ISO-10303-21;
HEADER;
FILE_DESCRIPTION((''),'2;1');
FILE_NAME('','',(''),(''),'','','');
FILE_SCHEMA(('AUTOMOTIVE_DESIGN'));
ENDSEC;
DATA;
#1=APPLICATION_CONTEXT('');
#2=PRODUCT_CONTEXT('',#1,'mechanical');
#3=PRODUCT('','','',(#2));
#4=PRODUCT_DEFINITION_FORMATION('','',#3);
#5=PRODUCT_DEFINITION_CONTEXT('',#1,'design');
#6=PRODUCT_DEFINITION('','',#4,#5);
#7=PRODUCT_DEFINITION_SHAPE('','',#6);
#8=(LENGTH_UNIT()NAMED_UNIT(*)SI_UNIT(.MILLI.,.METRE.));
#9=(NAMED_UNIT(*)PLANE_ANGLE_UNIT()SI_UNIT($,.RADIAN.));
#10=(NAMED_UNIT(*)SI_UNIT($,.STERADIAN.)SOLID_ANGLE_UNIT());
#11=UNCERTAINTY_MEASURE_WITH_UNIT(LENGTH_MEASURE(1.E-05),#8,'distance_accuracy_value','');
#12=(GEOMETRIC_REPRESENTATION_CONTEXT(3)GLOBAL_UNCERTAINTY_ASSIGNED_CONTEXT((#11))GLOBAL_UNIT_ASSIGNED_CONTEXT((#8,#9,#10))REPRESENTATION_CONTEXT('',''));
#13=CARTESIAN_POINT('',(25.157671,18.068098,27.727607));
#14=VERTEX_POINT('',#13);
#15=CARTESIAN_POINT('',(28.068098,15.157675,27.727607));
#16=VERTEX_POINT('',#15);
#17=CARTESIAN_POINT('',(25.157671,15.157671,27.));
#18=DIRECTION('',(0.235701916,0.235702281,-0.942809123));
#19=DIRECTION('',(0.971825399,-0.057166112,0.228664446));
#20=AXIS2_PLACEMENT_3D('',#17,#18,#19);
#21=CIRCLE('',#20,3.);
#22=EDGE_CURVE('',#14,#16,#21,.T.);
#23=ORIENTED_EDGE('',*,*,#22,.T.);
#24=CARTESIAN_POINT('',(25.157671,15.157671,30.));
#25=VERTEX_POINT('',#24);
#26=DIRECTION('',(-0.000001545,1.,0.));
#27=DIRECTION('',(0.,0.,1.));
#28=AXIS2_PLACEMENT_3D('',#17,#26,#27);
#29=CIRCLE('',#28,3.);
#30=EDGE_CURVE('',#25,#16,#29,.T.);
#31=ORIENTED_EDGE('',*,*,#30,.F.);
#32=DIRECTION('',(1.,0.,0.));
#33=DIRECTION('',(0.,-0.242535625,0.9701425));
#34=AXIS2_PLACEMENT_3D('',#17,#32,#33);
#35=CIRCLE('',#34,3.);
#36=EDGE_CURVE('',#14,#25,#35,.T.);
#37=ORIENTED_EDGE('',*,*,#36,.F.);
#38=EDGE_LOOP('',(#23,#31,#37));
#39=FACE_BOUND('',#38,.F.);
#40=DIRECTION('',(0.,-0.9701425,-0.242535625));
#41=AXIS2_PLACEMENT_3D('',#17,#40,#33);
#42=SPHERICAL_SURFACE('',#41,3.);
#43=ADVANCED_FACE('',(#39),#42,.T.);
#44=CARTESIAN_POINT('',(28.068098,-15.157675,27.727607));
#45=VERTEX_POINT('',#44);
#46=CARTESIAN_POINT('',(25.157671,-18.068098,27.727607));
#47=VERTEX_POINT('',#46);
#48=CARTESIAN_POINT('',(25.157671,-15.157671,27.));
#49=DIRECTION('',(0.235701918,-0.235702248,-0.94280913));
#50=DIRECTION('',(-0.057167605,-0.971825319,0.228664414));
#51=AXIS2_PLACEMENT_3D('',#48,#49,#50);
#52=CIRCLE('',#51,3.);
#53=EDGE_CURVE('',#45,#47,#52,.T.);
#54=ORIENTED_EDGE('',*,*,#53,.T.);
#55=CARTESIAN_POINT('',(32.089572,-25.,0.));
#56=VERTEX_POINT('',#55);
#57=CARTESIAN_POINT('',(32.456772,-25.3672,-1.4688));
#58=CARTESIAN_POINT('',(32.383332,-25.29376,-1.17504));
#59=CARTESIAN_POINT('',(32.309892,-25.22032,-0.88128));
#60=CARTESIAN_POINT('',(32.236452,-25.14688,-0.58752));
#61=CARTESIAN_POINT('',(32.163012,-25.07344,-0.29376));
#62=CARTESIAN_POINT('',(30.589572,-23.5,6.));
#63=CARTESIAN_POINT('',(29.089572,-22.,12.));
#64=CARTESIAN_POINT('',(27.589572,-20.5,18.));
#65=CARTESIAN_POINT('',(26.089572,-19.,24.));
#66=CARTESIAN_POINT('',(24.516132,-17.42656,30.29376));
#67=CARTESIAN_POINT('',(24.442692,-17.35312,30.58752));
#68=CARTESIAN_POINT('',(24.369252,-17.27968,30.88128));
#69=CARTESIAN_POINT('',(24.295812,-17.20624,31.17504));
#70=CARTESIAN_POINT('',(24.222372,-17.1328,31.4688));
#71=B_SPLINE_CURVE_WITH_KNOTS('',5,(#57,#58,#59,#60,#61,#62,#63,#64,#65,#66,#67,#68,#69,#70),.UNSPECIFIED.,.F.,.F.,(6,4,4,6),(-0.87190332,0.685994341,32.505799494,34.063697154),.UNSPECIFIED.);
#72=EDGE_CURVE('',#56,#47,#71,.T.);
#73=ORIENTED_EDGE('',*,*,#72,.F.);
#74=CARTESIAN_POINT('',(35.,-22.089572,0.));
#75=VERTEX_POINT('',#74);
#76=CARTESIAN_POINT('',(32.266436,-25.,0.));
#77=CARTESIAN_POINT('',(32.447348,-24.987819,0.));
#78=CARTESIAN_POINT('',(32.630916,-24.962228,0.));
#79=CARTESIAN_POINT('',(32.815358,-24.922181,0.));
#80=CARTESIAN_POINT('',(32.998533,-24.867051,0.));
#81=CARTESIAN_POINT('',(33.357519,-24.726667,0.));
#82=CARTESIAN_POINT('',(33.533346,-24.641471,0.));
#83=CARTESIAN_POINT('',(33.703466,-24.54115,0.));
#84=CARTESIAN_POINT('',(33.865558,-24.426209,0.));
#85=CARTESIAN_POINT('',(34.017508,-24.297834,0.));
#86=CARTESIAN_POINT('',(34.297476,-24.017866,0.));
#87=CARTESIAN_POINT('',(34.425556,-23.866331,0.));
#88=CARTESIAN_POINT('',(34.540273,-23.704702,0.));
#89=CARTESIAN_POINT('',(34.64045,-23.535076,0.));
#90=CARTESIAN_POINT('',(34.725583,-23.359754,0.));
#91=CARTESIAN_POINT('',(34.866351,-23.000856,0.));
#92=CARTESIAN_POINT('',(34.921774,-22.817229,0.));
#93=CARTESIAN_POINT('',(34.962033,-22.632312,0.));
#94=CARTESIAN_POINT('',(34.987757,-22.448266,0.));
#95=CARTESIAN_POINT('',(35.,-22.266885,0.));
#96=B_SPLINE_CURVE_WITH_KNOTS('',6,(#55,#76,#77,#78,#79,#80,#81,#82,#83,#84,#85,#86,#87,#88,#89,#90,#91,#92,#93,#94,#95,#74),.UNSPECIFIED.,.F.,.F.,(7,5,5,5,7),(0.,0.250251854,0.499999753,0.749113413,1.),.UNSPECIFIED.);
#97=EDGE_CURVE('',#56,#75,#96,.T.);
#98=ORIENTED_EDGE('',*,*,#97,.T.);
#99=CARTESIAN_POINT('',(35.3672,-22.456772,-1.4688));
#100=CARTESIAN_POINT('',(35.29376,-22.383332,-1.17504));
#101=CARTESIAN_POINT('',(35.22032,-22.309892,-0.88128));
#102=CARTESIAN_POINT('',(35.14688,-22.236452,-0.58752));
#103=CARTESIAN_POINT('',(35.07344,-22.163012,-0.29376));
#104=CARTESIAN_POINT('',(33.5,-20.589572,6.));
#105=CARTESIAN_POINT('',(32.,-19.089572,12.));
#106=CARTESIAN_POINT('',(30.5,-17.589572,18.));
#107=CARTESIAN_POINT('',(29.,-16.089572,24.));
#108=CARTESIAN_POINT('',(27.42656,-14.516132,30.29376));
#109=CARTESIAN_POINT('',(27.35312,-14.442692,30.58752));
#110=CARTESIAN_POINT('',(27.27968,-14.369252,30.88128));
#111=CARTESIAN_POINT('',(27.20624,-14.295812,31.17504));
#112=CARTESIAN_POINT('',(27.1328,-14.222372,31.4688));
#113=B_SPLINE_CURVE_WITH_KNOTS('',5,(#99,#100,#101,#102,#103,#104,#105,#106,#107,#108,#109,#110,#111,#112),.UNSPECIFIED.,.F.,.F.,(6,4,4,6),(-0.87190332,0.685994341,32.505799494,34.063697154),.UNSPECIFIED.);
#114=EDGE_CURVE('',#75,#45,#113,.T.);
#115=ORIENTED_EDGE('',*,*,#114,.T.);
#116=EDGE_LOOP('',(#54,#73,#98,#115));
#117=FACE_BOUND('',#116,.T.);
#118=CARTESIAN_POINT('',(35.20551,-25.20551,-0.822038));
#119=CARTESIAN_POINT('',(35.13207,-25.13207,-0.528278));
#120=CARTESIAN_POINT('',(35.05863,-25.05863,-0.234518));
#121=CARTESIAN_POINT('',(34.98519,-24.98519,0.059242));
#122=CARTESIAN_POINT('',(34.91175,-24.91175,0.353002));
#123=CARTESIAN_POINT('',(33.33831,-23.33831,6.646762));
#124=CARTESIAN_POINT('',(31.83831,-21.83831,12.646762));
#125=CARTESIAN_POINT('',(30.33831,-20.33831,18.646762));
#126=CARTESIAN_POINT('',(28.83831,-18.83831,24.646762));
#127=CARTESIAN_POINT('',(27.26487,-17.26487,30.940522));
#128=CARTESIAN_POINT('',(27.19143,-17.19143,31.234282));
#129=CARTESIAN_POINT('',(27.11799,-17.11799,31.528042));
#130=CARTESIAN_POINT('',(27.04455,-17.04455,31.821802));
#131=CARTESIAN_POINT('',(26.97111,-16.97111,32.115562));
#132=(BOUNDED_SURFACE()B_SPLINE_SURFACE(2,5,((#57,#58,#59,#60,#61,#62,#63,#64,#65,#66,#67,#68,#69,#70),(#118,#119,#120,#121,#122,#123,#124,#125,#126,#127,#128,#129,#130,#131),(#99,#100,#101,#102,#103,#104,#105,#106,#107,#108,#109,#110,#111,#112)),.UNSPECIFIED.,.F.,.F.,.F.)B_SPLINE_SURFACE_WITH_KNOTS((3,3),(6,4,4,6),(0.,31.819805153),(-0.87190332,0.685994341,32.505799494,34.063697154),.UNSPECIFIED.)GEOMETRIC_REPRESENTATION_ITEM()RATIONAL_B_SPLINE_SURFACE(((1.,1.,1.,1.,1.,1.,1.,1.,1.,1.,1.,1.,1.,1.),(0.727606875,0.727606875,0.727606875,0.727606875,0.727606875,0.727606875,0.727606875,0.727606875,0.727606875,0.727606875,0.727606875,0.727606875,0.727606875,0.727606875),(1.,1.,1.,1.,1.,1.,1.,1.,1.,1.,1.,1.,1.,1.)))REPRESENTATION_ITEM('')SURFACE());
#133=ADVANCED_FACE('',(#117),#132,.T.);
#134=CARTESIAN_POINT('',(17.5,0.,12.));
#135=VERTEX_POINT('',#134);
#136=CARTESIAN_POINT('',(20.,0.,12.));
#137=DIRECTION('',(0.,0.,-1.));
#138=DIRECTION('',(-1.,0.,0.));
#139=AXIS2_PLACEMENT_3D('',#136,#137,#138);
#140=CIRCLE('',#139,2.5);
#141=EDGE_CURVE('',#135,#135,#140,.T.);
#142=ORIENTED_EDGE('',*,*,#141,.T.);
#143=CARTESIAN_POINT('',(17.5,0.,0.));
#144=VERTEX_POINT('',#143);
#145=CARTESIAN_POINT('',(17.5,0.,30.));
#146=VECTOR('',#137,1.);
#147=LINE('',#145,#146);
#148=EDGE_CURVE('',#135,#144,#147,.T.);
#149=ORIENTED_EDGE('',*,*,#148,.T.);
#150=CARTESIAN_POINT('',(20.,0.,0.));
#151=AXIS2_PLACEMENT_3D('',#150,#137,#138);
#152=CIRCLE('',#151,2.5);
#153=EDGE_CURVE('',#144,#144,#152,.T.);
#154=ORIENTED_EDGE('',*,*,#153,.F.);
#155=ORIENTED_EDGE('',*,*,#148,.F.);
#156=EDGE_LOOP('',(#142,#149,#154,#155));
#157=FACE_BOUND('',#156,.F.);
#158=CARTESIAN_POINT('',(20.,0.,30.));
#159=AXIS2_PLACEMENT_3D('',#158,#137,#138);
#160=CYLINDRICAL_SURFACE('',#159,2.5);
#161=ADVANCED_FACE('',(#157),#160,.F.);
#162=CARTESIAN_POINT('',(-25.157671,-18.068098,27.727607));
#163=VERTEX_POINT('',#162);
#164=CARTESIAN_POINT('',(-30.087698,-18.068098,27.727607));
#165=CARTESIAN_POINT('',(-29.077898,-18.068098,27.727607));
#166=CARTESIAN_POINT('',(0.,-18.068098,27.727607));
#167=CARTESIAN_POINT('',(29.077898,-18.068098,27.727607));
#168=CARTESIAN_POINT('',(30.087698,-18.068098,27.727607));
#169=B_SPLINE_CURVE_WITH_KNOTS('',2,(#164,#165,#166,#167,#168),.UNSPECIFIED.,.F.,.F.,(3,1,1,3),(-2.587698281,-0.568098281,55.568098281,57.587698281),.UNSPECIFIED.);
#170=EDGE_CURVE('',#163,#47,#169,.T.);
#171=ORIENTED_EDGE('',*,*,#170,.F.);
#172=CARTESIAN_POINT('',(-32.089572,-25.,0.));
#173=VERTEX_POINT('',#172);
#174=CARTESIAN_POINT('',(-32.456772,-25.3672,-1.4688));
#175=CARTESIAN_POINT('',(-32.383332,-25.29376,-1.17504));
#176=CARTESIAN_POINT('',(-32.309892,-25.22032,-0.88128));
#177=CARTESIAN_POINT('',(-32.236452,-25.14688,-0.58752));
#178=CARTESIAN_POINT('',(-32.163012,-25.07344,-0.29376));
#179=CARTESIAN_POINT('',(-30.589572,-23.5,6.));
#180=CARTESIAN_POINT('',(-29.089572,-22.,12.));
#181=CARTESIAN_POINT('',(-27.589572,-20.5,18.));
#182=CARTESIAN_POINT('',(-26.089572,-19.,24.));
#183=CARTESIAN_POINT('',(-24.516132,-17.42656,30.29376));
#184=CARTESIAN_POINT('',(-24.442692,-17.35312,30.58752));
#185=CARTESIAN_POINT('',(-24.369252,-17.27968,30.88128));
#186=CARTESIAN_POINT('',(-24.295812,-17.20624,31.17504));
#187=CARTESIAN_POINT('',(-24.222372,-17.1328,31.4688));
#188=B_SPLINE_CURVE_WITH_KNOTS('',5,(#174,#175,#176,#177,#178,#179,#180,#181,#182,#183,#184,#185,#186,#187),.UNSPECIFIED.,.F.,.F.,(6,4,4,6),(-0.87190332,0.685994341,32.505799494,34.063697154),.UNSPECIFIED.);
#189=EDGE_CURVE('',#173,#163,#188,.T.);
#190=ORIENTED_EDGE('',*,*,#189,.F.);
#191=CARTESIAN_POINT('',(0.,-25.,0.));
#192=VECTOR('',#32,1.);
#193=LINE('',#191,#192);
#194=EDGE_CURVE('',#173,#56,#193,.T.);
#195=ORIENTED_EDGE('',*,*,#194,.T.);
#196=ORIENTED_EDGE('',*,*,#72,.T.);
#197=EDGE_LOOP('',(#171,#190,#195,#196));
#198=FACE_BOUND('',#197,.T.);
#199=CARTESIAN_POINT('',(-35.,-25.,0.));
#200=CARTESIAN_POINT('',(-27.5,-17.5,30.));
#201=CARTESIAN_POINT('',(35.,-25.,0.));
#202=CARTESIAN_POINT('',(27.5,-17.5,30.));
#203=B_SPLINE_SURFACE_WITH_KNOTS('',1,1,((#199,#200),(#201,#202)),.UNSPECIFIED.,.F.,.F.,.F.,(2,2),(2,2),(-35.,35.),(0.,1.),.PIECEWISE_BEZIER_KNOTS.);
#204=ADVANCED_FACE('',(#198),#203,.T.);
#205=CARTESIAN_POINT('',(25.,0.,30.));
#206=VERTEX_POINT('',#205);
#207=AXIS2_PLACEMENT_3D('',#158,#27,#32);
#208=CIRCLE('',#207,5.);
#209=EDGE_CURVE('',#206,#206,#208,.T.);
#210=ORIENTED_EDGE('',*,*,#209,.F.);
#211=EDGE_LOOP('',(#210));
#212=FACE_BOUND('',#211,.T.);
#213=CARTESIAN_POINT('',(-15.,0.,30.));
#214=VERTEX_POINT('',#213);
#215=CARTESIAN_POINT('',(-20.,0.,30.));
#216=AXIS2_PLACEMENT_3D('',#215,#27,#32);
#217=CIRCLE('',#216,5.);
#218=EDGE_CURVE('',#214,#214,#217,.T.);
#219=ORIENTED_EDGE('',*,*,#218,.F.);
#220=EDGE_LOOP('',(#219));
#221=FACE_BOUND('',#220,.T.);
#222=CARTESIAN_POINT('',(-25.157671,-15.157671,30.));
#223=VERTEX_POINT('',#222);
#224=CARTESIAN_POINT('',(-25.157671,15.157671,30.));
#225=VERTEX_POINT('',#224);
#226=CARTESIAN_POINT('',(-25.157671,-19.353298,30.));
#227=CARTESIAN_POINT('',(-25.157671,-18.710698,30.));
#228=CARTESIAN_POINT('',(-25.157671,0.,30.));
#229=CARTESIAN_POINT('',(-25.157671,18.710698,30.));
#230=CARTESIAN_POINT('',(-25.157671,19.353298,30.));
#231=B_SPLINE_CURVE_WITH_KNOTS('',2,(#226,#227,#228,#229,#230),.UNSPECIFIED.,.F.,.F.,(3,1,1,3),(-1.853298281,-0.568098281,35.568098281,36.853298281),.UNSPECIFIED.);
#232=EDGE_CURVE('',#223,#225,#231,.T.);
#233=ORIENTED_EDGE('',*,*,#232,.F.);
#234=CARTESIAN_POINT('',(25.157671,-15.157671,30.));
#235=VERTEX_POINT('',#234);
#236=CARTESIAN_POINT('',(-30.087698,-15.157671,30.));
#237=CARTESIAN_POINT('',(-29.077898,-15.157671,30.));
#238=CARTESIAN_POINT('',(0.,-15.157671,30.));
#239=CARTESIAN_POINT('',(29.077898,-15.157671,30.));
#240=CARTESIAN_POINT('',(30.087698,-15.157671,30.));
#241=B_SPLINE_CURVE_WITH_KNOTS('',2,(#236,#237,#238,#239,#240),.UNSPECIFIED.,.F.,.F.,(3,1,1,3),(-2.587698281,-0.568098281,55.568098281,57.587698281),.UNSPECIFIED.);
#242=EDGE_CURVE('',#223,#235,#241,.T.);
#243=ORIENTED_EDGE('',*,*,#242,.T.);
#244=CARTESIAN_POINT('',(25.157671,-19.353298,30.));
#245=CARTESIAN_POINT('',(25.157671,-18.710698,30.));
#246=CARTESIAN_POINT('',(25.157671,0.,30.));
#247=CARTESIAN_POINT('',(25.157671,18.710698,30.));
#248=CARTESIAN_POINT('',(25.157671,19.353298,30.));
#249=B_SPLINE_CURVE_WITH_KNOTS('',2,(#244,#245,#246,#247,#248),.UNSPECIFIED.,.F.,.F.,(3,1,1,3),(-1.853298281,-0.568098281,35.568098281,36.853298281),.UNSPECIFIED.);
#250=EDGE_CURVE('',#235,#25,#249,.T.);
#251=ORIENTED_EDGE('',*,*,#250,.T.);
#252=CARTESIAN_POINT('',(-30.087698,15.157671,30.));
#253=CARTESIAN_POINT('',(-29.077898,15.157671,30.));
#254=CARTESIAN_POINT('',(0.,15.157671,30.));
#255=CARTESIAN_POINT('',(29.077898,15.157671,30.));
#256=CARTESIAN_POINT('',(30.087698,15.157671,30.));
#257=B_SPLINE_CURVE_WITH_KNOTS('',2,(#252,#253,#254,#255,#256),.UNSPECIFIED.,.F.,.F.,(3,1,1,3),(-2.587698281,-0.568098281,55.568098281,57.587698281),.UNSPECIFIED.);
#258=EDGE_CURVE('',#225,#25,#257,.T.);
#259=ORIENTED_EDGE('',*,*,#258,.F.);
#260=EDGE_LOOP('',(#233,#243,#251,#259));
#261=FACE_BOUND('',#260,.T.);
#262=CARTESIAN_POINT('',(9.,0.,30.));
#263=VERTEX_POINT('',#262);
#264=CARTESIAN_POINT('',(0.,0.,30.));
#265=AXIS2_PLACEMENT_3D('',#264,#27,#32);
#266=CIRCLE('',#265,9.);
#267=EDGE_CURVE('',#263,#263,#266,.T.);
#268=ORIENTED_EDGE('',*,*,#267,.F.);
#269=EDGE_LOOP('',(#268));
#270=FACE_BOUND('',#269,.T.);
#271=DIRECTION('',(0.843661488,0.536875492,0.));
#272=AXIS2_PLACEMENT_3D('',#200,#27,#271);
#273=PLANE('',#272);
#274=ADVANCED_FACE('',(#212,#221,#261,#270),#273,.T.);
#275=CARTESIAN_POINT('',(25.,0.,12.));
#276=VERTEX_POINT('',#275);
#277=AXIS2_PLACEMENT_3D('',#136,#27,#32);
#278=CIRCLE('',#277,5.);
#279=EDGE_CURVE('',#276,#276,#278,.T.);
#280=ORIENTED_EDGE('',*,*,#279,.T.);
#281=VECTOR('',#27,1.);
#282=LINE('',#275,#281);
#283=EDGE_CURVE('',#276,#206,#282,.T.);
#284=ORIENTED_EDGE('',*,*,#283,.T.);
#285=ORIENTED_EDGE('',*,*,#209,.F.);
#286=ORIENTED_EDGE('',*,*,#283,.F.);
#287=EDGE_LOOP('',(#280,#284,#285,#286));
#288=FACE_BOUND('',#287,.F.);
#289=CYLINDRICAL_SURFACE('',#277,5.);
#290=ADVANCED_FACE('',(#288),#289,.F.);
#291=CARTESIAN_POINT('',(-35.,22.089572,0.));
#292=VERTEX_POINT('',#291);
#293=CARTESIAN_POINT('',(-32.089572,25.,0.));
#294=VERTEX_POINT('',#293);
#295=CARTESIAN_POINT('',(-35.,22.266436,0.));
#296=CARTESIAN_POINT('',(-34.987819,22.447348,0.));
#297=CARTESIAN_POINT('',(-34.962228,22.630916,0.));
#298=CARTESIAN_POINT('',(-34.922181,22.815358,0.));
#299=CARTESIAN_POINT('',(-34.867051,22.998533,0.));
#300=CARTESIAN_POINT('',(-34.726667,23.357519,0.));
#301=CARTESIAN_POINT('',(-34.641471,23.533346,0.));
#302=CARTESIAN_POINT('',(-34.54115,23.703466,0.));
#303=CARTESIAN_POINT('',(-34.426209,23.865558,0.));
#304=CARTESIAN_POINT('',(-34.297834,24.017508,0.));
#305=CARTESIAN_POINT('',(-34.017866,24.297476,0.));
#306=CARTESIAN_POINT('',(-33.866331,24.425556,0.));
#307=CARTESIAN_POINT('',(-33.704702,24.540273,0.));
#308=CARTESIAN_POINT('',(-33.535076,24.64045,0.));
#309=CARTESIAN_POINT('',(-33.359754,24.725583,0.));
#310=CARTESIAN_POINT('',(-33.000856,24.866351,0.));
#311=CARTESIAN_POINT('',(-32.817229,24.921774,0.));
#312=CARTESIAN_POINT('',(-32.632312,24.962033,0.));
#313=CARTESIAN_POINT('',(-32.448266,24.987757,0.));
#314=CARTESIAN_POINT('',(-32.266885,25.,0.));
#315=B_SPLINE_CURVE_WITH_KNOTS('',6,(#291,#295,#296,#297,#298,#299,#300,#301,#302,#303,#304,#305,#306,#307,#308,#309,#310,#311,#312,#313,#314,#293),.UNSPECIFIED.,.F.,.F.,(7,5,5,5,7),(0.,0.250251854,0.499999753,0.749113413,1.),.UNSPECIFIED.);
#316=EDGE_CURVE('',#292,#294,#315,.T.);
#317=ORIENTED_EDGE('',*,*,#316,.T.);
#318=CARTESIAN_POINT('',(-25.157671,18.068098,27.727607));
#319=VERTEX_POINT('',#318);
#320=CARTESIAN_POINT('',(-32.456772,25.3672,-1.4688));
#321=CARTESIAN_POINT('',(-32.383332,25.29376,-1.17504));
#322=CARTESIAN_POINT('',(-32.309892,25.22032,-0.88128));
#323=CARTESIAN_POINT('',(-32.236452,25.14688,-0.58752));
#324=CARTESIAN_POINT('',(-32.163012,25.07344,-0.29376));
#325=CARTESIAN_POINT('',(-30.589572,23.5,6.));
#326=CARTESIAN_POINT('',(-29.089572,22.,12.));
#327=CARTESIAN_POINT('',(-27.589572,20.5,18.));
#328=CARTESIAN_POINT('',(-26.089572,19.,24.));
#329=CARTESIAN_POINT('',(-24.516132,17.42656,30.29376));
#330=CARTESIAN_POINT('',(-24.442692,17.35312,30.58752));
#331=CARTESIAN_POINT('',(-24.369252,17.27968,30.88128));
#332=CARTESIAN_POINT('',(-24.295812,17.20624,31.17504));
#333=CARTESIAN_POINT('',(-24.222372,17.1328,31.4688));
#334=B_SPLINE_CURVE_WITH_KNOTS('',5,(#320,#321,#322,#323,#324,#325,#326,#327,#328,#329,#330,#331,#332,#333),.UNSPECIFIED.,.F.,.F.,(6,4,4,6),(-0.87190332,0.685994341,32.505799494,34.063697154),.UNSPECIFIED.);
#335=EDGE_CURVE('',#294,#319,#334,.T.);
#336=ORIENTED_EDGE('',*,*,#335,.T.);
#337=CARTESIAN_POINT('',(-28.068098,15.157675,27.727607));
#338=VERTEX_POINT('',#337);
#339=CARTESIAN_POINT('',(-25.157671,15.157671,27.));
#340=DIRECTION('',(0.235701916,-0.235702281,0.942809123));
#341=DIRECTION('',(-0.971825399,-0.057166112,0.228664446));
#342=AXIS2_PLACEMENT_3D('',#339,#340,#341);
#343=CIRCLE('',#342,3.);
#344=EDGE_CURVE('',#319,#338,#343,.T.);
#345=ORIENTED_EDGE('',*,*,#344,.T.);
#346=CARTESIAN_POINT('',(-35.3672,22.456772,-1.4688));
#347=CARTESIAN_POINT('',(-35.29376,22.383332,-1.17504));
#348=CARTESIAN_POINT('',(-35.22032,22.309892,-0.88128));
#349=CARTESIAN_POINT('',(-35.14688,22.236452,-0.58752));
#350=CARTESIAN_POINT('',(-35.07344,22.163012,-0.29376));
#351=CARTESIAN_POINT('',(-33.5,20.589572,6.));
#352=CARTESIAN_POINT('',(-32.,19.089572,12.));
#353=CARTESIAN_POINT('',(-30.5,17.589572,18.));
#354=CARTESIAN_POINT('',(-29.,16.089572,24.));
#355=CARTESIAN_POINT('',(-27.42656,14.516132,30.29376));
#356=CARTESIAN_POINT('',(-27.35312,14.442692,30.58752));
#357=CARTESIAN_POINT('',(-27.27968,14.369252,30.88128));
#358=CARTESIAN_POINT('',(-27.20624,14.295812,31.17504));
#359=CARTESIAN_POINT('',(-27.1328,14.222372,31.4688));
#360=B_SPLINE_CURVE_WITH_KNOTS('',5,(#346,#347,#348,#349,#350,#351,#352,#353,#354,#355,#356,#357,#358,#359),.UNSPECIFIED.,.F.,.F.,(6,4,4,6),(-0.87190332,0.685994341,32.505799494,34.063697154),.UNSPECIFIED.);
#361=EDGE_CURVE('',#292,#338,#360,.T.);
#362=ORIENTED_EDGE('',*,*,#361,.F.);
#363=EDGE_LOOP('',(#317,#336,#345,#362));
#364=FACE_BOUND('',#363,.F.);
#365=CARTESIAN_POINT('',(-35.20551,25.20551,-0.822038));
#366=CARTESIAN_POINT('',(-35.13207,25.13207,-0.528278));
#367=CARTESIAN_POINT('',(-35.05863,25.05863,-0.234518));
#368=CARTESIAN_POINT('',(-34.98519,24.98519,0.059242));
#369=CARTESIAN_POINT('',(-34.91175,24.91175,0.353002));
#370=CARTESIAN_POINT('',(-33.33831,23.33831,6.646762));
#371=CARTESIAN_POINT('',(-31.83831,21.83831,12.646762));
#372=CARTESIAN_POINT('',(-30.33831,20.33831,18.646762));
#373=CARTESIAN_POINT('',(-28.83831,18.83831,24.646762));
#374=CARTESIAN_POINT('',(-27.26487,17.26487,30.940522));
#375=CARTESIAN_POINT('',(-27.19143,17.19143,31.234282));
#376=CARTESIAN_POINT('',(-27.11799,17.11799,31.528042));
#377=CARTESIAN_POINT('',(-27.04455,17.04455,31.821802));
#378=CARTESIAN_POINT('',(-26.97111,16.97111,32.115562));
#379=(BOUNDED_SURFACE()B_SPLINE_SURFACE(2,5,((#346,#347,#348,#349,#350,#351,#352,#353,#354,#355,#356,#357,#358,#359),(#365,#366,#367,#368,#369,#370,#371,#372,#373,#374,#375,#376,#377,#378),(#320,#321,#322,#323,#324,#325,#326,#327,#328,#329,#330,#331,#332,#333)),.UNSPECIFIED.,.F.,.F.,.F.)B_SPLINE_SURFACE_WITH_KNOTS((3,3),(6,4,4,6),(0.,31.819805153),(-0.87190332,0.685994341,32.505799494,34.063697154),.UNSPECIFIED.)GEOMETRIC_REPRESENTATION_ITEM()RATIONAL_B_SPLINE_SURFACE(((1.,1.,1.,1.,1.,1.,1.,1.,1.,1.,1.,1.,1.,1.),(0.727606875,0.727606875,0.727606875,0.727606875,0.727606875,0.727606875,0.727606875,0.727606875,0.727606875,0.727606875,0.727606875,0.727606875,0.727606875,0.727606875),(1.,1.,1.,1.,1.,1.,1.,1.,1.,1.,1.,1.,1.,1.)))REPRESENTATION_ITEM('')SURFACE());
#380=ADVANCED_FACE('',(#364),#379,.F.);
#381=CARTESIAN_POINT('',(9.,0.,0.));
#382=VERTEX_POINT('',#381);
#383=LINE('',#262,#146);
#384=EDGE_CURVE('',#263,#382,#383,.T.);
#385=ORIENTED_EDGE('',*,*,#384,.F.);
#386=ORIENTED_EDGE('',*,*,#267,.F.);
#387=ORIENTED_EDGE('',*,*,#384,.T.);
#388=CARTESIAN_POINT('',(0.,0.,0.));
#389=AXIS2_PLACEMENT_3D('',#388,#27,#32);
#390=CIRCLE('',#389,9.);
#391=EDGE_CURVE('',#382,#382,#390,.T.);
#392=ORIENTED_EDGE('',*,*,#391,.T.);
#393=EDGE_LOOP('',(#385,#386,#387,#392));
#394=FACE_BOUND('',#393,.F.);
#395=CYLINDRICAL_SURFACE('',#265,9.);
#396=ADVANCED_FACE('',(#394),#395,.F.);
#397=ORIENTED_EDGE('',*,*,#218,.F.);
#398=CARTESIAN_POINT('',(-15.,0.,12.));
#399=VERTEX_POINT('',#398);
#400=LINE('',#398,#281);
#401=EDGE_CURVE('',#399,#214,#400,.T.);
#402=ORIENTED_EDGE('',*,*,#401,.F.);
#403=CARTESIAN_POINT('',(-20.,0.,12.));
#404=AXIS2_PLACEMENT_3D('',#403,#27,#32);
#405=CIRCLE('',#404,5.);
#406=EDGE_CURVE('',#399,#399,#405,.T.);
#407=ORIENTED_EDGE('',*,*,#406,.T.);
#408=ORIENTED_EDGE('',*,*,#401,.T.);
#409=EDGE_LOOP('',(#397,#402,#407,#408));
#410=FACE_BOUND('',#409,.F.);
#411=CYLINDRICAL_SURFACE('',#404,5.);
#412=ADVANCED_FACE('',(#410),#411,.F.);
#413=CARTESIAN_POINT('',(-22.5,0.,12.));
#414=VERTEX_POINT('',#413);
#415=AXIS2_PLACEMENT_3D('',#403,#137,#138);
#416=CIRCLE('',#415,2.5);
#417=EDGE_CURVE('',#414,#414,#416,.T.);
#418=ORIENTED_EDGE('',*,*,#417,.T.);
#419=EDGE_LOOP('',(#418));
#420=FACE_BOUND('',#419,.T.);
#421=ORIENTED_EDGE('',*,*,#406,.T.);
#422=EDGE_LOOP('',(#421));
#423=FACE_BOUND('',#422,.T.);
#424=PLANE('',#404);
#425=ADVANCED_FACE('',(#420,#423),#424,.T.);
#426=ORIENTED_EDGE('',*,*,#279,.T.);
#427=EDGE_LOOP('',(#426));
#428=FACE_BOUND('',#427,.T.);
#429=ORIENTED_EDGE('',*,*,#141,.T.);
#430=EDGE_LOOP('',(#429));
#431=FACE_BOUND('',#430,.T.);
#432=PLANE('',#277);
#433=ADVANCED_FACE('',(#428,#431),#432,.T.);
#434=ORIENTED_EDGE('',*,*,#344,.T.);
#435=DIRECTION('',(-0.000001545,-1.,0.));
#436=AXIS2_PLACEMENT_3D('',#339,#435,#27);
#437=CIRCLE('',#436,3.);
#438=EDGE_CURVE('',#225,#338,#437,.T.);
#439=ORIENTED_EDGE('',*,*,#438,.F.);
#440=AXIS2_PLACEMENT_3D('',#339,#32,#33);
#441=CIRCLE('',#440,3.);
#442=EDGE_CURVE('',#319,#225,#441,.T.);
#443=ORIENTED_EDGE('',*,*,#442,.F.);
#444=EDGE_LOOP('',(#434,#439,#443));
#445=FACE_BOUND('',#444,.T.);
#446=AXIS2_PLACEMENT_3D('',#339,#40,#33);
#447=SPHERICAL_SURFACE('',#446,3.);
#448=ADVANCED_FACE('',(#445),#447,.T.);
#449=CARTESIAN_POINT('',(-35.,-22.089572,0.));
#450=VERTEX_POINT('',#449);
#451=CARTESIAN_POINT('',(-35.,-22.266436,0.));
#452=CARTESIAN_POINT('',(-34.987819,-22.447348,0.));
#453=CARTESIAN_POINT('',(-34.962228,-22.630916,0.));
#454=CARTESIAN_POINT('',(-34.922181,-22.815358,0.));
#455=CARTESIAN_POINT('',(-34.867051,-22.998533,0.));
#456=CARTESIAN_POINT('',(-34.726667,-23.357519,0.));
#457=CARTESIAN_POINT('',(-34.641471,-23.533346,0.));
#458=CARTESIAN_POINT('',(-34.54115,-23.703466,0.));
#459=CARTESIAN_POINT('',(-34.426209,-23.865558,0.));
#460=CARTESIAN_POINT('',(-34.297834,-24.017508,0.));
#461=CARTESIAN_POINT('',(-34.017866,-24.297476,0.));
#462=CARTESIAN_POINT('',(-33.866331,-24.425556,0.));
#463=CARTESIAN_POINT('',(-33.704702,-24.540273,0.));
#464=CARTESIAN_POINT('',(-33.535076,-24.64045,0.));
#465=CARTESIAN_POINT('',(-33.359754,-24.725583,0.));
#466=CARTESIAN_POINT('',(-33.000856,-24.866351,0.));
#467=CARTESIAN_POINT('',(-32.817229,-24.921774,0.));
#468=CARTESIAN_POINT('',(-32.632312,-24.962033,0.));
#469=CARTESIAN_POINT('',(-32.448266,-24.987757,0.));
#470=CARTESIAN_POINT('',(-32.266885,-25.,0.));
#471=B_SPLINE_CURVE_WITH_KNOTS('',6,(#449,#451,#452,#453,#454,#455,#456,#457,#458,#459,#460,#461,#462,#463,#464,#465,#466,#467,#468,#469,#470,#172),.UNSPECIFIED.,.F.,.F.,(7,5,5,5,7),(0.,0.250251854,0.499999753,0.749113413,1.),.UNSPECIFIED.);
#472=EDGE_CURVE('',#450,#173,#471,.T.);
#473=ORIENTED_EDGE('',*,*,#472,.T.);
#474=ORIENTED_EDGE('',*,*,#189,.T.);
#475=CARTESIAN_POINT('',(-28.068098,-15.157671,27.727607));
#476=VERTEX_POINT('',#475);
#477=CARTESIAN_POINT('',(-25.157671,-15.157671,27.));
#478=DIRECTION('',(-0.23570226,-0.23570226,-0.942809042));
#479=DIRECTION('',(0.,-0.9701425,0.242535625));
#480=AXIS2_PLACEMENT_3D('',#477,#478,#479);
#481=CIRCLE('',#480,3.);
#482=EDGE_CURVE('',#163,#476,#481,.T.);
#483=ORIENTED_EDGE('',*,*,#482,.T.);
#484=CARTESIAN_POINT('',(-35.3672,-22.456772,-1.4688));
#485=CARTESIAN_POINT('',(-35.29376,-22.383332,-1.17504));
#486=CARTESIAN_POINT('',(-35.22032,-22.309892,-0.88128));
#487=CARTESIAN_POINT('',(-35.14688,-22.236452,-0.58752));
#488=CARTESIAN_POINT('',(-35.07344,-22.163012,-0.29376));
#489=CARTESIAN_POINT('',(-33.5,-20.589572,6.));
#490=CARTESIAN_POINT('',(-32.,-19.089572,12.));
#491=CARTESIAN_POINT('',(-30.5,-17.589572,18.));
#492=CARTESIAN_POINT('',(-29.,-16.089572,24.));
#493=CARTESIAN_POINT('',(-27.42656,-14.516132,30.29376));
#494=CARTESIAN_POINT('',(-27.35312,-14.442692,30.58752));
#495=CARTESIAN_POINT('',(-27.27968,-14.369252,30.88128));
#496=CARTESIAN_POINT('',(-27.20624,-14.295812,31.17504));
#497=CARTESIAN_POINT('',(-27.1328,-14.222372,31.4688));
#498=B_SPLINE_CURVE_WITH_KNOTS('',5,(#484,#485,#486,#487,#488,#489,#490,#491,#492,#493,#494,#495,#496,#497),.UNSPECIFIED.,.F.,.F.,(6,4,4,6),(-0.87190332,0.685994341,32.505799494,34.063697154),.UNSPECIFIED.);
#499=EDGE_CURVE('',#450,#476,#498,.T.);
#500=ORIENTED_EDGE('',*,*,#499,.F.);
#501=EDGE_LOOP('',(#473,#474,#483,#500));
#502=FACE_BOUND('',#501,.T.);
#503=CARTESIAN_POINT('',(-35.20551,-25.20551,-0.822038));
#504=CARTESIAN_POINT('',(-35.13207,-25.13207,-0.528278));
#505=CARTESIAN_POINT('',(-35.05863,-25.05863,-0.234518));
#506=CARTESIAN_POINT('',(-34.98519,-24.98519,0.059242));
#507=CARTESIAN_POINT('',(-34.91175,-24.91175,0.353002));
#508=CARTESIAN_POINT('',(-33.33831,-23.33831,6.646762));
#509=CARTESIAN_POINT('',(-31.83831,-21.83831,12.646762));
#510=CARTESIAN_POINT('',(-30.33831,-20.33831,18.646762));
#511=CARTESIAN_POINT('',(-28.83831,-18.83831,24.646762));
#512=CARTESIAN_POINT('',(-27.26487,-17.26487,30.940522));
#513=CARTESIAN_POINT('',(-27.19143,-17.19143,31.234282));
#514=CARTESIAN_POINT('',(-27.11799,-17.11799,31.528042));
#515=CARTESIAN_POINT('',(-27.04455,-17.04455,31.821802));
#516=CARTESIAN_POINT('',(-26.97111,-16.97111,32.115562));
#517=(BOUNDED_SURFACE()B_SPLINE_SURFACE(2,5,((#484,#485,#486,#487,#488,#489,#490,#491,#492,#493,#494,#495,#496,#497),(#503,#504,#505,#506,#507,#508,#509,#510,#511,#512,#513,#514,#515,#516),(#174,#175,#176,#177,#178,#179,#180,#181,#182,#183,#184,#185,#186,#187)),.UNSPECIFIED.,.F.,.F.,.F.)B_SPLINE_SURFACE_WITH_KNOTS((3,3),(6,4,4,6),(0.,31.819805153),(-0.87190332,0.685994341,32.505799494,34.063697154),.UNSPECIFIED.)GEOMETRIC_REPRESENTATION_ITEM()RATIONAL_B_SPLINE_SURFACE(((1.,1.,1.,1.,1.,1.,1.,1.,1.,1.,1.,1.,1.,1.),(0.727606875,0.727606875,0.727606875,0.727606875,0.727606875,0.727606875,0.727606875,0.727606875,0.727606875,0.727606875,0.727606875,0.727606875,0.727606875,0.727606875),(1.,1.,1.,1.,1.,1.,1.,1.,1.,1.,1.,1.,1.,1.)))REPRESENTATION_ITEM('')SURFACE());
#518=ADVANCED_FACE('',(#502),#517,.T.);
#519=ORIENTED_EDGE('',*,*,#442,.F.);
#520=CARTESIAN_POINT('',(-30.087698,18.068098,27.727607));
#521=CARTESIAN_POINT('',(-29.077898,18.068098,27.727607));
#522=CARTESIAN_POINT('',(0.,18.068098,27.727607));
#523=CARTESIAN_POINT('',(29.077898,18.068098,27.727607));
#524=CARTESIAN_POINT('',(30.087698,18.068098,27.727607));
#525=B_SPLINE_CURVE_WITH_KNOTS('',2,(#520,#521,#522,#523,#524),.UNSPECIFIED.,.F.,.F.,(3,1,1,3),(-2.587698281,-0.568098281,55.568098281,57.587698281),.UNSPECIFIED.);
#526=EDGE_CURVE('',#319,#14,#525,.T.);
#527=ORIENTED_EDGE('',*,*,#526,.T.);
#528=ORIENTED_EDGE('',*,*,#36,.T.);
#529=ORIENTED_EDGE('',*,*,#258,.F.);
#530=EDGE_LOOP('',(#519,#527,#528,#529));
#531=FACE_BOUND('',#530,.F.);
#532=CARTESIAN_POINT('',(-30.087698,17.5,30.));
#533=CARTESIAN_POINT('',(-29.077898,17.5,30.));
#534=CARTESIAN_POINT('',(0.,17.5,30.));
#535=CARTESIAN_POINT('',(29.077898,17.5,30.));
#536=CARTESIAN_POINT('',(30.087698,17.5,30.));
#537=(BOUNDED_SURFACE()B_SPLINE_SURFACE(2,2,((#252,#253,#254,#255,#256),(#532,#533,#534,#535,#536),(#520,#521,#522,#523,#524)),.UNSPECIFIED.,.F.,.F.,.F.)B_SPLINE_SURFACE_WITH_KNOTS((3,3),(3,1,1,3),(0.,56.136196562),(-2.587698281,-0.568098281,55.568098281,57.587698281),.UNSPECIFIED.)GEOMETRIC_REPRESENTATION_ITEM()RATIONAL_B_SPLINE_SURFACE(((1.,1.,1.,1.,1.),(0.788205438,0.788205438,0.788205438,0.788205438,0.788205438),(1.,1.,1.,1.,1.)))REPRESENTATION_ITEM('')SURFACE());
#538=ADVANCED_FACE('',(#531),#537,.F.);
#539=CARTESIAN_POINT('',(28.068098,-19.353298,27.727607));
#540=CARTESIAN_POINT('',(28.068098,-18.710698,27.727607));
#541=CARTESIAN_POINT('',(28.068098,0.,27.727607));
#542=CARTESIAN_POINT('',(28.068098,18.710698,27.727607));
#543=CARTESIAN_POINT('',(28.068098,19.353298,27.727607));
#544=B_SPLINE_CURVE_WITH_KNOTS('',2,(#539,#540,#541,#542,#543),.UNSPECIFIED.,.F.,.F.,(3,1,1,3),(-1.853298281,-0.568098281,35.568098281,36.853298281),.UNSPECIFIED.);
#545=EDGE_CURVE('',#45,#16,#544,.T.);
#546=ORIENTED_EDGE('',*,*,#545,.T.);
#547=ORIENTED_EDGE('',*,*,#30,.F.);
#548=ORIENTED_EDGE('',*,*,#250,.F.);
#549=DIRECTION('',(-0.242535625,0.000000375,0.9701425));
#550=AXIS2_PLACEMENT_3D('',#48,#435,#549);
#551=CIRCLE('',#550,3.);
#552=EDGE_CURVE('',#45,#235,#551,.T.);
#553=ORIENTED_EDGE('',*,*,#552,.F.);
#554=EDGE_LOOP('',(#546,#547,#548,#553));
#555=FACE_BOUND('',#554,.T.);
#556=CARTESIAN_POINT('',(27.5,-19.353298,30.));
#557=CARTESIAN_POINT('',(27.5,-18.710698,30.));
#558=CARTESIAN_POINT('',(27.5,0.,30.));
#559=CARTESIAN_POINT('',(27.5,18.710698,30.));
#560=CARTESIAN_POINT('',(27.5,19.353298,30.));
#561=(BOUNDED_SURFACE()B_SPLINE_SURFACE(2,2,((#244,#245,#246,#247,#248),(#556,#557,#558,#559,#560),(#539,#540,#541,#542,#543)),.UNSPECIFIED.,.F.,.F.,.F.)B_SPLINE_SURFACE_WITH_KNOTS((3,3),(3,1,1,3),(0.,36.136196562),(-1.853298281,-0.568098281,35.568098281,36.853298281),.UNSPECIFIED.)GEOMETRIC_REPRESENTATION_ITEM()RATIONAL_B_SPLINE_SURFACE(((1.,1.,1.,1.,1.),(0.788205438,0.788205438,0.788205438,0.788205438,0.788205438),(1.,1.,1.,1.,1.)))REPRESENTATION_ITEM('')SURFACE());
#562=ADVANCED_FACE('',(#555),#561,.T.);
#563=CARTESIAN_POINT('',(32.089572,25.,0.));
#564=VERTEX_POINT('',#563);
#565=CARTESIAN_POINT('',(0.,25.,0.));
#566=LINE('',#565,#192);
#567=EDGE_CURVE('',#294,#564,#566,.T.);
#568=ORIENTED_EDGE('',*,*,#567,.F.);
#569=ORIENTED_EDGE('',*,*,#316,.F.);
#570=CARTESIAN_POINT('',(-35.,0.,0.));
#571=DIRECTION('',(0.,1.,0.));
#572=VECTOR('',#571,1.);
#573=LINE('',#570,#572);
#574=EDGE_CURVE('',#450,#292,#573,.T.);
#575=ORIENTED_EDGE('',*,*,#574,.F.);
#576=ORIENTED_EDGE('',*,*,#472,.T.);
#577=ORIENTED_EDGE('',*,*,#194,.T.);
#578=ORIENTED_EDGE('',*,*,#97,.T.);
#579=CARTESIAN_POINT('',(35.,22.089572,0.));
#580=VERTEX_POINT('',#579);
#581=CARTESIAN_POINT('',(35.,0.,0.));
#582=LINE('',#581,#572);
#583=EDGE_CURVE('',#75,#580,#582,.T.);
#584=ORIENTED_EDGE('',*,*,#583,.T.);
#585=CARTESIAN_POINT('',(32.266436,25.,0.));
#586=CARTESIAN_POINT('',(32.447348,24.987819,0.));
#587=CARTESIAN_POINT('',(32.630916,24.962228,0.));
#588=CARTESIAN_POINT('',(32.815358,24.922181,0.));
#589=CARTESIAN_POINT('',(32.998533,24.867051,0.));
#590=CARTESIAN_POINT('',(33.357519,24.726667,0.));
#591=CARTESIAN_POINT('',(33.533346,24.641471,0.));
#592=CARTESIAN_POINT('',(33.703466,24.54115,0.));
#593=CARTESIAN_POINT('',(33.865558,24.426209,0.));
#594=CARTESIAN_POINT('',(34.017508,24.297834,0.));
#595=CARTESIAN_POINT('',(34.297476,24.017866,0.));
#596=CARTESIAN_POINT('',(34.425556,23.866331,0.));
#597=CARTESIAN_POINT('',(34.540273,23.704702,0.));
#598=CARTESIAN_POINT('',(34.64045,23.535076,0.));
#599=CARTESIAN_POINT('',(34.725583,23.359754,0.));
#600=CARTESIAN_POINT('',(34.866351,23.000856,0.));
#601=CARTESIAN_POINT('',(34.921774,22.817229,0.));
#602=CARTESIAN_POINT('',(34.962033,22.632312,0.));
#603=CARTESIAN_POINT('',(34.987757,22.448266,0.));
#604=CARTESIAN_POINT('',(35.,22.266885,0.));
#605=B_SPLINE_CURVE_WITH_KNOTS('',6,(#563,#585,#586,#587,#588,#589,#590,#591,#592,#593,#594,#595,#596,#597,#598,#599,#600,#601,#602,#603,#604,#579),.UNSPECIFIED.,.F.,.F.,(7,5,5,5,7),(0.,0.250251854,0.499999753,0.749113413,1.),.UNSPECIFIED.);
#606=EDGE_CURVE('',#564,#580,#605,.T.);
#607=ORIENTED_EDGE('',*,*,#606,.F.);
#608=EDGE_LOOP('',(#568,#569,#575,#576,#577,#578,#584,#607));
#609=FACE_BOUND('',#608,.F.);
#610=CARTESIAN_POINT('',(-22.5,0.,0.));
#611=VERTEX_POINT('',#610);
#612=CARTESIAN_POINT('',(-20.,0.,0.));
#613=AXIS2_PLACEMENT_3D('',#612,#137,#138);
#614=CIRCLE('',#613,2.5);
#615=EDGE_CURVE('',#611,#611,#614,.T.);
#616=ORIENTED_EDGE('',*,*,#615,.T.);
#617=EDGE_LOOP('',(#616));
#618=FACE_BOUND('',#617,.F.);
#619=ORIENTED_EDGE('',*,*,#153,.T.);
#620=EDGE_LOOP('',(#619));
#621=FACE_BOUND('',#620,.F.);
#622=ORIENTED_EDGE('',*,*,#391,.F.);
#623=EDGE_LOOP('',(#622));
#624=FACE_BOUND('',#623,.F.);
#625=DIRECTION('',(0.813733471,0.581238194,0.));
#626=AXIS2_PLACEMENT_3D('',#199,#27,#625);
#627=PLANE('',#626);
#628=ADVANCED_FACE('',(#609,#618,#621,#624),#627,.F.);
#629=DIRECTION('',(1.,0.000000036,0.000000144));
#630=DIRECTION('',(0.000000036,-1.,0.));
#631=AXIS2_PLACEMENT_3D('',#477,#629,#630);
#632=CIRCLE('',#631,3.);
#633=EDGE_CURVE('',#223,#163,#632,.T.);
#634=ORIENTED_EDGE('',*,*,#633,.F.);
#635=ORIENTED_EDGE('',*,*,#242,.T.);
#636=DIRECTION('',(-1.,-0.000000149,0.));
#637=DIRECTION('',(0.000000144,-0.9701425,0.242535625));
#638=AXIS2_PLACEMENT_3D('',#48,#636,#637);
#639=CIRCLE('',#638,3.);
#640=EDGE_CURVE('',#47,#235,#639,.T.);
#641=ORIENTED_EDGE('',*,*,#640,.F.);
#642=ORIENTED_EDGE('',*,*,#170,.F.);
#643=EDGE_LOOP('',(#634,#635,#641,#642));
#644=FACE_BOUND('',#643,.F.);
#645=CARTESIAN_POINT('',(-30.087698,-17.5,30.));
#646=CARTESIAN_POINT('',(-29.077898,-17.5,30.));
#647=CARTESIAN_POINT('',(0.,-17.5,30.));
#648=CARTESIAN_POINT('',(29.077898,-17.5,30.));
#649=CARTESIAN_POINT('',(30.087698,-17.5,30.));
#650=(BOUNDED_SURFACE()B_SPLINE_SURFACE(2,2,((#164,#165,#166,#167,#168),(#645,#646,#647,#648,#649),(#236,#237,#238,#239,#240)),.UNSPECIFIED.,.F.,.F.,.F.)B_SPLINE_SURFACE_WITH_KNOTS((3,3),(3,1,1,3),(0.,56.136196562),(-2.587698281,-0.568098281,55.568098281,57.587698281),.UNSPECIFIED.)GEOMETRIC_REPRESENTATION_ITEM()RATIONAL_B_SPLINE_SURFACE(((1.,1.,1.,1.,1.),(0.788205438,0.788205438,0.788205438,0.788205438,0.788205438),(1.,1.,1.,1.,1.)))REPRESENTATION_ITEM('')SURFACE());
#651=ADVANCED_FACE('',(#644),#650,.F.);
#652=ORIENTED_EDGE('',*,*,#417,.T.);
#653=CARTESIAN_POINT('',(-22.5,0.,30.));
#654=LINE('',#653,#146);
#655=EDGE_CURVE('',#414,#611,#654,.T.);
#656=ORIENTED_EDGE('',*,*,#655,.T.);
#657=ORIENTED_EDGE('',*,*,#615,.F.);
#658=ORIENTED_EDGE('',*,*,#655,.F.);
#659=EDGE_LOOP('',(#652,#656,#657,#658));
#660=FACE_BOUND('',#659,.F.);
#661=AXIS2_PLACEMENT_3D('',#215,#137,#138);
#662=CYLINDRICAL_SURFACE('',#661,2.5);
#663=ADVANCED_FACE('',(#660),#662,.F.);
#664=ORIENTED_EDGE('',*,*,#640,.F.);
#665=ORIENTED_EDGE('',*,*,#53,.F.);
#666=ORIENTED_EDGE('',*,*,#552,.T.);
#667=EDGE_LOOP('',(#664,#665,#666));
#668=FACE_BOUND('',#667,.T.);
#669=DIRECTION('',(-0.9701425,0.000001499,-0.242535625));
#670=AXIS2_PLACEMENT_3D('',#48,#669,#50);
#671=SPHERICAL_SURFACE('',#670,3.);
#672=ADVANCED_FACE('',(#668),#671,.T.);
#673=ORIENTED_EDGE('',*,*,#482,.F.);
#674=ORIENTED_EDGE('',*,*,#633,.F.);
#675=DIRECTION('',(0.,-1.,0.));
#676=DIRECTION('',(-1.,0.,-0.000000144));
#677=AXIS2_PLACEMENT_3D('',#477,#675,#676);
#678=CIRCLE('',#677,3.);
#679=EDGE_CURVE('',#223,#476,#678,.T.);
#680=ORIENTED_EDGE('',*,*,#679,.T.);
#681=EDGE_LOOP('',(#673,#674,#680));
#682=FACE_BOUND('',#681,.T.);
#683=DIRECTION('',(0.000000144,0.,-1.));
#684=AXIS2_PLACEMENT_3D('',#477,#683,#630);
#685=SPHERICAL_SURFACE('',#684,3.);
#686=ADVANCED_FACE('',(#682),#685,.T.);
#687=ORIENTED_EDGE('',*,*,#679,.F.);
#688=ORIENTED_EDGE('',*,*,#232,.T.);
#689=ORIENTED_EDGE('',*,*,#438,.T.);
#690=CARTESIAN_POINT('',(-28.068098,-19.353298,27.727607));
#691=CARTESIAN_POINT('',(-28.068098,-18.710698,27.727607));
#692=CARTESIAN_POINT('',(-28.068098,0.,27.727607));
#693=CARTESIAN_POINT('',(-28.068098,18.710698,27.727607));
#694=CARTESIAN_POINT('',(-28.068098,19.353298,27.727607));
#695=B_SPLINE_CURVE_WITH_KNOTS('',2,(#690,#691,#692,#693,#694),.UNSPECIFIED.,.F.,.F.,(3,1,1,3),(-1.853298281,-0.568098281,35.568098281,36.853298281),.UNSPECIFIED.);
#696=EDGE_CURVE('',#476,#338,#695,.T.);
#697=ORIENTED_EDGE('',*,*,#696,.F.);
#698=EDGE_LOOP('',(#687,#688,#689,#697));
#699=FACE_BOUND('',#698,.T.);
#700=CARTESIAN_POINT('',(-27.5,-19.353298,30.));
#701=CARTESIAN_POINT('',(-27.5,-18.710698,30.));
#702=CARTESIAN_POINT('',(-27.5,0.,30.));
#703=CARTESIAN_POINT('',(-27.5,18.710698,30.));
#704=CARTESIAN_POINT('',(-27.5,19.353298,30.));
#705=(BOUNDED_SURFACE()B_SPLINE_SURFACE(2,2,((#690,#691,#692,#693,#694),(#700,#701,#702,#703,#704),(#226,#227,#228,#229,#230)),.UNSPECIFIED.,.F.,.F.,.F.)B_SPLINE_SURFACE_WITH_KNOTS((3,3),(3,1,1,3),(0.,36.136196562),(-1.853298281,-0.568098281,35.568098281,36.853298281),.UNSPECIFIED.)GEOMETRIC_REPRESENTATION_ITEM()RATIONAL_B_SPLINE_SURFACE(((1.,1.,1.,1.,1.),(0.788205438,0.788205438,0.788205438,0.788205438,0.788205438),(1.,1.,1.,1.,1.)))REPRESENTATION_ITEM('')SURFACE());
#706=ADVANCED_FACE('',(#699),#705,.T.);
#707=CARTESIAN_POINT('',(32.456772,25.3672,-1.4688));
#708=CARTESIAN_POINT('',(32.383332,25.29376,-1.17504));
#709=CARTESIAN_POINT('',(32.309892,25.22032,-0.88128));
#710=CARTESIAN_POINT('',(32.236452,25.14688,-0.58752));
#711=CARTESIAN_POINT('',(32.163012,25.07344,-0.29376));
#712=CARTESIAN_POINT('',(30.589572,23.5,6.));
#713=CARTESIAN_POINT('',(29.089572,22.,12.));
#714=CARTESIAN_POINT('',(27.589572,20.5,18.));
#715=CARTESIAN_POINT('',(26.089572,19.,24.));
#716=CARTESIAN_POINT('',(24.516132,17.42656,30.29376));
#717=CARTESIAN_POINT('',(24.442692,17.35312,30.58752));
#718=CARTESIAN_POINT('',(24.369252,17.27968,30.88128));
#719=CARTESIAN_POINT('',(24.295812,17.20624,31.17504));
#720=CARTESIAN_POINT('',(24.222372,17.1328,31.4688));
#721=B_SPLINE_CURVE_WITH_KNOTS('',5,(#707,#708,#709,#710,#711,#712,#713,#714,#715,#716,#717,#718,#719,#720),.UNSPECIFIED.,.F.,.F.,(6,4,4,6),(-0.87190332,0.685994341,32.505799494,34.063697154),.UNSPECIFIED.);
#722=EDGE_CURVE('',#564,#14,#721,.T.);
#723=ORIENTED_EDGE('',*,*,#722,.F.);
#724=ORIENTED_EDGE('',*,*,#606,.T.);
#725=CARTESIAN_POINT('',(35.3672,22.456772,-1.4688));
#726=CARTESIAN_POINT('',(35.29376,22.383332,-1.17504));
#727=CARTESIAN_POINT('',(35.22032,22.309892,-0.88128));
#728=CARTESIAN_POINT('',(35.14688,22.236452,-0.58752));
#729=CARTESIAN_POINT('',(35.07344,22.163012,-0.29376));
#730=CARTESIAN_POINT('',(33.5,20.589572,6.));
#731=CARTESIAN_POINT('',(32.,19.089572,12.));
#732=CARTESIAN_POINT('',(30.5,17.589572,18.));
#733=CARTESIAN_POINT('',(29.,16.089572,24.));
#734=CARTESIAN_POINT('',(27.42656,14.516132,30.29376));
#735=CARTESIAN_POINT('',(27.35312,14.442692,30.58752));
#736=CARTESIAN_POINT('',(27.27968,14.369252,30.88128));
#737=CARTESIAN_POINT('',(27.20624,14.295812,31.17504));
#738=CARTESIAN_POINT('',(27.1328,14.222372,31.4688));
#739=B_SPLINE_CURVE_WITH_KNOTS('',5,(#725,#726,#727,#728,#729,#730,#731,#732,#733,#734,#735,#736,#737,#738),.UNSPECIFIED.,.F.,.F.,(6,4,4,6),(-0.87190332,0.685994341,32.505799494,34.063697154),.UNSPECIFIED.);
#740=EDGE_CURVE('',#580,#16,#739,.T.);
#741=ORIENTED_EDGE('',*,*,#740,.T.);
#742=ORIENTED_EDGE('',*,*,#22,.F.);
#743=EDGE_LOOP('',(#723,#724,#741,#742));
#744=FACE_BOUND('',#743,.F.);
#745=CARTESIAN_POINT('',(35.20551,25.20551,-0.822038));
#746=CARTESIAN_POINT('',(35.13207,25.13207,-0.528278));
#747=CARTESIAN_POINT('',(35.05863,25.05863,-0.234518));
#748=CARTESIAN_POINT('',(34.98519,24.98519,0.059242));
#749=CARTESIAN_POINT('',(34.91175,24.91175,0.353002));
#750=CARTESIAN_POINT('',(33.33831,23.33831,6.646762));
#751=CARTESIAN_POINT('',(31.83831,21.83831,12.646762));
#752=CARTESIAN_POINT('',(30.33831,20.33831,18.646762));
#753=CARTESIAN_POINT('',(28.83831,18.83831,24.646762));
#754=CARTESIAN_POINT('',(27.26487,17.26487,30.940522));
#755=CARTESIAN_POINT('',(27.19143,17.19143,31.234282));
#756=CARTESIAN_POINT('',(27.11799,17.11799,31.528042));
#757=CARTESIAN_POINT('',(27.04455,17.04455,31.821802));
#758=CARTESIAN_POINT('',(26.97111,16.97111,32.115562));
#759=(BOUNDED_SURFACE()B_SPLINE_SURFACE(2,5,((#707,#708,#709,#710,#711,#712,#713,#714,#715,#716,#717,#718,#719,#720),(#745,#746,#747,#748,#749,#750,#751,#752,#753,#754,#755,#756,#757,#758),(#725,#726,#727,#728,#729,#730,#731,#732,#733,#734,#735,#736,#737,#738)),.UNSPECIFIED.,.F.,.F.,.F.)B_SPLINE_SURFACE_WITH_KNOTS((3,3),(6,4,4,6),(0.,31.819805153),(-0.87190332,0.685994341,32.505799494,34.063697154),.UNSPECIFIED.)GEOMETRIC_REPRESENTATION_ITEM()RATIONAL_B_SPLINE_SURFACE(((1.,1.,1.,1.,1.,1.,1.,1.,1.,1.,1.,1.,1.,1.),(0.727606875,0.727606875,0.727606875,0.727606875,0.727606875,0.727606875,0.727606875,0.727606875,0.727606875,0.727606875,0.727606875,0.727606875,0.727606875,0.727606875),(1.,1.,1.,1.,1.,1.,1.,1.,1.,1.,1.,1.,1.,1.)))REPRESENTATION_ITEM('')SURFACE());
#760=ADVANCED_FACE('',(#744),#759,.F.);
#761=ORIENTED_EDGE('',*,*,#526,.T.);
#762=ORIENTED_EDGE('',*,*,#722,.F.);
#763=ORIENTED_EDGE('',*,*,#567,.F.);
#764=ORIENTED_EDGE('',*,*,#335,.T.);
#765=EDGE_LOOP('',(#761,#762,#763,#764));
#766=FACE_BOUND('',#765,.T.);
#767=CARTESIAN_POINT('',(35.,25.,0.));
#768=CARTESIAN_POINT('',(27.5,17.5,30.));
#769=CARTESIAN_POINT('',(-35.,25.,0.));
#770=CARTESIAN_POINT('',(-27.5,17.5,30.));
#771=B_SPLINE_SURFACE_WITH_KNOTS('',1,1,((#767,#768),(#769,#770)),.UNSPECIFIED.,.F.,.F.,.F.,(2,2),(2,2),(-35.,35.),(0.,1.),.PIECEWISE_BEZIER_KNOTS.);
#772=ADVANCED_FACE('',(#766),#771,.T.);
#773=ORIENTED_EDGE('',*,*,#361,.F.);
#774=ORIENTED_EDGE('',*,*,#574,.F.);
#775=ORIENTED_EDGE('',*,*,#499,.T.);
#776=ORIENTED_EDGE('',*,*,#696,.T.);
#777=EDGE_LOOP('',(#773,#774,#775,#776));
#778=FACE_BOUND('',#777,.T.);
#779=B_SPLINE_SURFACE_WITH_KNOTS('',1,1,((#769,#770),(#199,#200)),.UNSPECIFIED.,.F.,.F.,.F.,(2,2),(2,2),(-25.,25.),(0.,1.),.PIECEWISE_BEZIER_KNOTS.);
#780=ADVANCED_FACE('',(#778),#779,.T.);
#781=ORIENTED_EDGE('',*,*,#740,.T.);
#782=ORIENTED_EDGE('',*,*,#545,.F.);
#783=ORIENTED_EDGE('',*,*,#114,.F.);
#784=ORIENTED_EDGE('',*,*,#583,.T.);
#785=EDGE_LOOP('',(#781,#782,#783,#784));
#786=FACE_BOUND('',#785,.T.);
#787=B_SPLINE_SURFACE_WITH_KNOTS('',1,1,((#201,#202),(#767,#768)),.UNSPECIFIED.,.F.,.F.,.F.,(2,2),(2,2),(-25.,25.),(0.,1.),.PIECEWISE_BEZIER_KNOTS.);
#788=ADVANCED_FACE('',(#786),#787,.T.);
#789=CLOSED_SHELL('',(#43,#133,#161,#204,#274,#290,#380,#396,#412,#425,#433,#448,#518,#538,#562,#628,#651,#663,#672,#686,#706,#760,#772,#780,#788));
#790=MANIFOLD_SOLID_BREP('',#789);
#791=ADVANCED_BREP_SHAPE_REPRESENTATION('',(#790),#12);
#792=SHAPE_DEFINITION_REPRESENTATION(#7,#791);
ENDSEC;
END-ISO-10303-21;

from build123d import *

# Parameters (mm, degrees)
SKETCH_W         = 70
SKETCH_H         = 50
SKETCH001_W      = 55
SKETCH001_H      = 35
SKETCH002_R      = 9
POCKET_DEPTH     = 30
HOLE_D           = 5
HOLE_CBORE_D     = 10
HOLE_CBORE_DEPTH = 18
FILLET_R         = 3


with BuildPart() as part:
    # Sketch → AdditiveLoft section 0
    with BuildSketch(Plane.XY):
        Rectangle(SKETCH_W, SKETCH_H)
    # Sketch001 (on DatumPlane) → AdditiveLoft section 1
    with BuildSketch(Plane.XY.offset(30)):
        Rectangle(SKETCH001_W, SKETCH001_H)
    loft()

    # Sketch002 (on DatumPlane) → Pocket (cut)
    with BuildSketch(Plane.XY.offset(30)):
        Circle(SKETCH002_R)
    extrude(amount=-POCKET_DEPTH, mode=Mode.SUBTRACT)

    # Hole (through all)
    with Locations(Plane.XY.offset(30)):
        with Locations((-20, 0), (20, 0)):
            CounterBoreHole(HOLE_D / 2, HOLE_CBORE_D / 2, HOLE_CBORE_DEPTH)

    # Fillet
    fillet_edges = [part.edges().sort_by_distance(p)[0] for p in [
        (-31.25, -21.25, 15),
        (0, -17.5, 30),
        (-27.5, 0, 30),
        (31.25, -21.25, 15),
        (27.5, 0, 30),
        (0, 17.5, 30),
        (-31.25, 21.25, 15),
        (31.25, 21.25, 15),
    ]]
    fillet(fillet_edges, radius=FILLET_R)


solid = part.part
